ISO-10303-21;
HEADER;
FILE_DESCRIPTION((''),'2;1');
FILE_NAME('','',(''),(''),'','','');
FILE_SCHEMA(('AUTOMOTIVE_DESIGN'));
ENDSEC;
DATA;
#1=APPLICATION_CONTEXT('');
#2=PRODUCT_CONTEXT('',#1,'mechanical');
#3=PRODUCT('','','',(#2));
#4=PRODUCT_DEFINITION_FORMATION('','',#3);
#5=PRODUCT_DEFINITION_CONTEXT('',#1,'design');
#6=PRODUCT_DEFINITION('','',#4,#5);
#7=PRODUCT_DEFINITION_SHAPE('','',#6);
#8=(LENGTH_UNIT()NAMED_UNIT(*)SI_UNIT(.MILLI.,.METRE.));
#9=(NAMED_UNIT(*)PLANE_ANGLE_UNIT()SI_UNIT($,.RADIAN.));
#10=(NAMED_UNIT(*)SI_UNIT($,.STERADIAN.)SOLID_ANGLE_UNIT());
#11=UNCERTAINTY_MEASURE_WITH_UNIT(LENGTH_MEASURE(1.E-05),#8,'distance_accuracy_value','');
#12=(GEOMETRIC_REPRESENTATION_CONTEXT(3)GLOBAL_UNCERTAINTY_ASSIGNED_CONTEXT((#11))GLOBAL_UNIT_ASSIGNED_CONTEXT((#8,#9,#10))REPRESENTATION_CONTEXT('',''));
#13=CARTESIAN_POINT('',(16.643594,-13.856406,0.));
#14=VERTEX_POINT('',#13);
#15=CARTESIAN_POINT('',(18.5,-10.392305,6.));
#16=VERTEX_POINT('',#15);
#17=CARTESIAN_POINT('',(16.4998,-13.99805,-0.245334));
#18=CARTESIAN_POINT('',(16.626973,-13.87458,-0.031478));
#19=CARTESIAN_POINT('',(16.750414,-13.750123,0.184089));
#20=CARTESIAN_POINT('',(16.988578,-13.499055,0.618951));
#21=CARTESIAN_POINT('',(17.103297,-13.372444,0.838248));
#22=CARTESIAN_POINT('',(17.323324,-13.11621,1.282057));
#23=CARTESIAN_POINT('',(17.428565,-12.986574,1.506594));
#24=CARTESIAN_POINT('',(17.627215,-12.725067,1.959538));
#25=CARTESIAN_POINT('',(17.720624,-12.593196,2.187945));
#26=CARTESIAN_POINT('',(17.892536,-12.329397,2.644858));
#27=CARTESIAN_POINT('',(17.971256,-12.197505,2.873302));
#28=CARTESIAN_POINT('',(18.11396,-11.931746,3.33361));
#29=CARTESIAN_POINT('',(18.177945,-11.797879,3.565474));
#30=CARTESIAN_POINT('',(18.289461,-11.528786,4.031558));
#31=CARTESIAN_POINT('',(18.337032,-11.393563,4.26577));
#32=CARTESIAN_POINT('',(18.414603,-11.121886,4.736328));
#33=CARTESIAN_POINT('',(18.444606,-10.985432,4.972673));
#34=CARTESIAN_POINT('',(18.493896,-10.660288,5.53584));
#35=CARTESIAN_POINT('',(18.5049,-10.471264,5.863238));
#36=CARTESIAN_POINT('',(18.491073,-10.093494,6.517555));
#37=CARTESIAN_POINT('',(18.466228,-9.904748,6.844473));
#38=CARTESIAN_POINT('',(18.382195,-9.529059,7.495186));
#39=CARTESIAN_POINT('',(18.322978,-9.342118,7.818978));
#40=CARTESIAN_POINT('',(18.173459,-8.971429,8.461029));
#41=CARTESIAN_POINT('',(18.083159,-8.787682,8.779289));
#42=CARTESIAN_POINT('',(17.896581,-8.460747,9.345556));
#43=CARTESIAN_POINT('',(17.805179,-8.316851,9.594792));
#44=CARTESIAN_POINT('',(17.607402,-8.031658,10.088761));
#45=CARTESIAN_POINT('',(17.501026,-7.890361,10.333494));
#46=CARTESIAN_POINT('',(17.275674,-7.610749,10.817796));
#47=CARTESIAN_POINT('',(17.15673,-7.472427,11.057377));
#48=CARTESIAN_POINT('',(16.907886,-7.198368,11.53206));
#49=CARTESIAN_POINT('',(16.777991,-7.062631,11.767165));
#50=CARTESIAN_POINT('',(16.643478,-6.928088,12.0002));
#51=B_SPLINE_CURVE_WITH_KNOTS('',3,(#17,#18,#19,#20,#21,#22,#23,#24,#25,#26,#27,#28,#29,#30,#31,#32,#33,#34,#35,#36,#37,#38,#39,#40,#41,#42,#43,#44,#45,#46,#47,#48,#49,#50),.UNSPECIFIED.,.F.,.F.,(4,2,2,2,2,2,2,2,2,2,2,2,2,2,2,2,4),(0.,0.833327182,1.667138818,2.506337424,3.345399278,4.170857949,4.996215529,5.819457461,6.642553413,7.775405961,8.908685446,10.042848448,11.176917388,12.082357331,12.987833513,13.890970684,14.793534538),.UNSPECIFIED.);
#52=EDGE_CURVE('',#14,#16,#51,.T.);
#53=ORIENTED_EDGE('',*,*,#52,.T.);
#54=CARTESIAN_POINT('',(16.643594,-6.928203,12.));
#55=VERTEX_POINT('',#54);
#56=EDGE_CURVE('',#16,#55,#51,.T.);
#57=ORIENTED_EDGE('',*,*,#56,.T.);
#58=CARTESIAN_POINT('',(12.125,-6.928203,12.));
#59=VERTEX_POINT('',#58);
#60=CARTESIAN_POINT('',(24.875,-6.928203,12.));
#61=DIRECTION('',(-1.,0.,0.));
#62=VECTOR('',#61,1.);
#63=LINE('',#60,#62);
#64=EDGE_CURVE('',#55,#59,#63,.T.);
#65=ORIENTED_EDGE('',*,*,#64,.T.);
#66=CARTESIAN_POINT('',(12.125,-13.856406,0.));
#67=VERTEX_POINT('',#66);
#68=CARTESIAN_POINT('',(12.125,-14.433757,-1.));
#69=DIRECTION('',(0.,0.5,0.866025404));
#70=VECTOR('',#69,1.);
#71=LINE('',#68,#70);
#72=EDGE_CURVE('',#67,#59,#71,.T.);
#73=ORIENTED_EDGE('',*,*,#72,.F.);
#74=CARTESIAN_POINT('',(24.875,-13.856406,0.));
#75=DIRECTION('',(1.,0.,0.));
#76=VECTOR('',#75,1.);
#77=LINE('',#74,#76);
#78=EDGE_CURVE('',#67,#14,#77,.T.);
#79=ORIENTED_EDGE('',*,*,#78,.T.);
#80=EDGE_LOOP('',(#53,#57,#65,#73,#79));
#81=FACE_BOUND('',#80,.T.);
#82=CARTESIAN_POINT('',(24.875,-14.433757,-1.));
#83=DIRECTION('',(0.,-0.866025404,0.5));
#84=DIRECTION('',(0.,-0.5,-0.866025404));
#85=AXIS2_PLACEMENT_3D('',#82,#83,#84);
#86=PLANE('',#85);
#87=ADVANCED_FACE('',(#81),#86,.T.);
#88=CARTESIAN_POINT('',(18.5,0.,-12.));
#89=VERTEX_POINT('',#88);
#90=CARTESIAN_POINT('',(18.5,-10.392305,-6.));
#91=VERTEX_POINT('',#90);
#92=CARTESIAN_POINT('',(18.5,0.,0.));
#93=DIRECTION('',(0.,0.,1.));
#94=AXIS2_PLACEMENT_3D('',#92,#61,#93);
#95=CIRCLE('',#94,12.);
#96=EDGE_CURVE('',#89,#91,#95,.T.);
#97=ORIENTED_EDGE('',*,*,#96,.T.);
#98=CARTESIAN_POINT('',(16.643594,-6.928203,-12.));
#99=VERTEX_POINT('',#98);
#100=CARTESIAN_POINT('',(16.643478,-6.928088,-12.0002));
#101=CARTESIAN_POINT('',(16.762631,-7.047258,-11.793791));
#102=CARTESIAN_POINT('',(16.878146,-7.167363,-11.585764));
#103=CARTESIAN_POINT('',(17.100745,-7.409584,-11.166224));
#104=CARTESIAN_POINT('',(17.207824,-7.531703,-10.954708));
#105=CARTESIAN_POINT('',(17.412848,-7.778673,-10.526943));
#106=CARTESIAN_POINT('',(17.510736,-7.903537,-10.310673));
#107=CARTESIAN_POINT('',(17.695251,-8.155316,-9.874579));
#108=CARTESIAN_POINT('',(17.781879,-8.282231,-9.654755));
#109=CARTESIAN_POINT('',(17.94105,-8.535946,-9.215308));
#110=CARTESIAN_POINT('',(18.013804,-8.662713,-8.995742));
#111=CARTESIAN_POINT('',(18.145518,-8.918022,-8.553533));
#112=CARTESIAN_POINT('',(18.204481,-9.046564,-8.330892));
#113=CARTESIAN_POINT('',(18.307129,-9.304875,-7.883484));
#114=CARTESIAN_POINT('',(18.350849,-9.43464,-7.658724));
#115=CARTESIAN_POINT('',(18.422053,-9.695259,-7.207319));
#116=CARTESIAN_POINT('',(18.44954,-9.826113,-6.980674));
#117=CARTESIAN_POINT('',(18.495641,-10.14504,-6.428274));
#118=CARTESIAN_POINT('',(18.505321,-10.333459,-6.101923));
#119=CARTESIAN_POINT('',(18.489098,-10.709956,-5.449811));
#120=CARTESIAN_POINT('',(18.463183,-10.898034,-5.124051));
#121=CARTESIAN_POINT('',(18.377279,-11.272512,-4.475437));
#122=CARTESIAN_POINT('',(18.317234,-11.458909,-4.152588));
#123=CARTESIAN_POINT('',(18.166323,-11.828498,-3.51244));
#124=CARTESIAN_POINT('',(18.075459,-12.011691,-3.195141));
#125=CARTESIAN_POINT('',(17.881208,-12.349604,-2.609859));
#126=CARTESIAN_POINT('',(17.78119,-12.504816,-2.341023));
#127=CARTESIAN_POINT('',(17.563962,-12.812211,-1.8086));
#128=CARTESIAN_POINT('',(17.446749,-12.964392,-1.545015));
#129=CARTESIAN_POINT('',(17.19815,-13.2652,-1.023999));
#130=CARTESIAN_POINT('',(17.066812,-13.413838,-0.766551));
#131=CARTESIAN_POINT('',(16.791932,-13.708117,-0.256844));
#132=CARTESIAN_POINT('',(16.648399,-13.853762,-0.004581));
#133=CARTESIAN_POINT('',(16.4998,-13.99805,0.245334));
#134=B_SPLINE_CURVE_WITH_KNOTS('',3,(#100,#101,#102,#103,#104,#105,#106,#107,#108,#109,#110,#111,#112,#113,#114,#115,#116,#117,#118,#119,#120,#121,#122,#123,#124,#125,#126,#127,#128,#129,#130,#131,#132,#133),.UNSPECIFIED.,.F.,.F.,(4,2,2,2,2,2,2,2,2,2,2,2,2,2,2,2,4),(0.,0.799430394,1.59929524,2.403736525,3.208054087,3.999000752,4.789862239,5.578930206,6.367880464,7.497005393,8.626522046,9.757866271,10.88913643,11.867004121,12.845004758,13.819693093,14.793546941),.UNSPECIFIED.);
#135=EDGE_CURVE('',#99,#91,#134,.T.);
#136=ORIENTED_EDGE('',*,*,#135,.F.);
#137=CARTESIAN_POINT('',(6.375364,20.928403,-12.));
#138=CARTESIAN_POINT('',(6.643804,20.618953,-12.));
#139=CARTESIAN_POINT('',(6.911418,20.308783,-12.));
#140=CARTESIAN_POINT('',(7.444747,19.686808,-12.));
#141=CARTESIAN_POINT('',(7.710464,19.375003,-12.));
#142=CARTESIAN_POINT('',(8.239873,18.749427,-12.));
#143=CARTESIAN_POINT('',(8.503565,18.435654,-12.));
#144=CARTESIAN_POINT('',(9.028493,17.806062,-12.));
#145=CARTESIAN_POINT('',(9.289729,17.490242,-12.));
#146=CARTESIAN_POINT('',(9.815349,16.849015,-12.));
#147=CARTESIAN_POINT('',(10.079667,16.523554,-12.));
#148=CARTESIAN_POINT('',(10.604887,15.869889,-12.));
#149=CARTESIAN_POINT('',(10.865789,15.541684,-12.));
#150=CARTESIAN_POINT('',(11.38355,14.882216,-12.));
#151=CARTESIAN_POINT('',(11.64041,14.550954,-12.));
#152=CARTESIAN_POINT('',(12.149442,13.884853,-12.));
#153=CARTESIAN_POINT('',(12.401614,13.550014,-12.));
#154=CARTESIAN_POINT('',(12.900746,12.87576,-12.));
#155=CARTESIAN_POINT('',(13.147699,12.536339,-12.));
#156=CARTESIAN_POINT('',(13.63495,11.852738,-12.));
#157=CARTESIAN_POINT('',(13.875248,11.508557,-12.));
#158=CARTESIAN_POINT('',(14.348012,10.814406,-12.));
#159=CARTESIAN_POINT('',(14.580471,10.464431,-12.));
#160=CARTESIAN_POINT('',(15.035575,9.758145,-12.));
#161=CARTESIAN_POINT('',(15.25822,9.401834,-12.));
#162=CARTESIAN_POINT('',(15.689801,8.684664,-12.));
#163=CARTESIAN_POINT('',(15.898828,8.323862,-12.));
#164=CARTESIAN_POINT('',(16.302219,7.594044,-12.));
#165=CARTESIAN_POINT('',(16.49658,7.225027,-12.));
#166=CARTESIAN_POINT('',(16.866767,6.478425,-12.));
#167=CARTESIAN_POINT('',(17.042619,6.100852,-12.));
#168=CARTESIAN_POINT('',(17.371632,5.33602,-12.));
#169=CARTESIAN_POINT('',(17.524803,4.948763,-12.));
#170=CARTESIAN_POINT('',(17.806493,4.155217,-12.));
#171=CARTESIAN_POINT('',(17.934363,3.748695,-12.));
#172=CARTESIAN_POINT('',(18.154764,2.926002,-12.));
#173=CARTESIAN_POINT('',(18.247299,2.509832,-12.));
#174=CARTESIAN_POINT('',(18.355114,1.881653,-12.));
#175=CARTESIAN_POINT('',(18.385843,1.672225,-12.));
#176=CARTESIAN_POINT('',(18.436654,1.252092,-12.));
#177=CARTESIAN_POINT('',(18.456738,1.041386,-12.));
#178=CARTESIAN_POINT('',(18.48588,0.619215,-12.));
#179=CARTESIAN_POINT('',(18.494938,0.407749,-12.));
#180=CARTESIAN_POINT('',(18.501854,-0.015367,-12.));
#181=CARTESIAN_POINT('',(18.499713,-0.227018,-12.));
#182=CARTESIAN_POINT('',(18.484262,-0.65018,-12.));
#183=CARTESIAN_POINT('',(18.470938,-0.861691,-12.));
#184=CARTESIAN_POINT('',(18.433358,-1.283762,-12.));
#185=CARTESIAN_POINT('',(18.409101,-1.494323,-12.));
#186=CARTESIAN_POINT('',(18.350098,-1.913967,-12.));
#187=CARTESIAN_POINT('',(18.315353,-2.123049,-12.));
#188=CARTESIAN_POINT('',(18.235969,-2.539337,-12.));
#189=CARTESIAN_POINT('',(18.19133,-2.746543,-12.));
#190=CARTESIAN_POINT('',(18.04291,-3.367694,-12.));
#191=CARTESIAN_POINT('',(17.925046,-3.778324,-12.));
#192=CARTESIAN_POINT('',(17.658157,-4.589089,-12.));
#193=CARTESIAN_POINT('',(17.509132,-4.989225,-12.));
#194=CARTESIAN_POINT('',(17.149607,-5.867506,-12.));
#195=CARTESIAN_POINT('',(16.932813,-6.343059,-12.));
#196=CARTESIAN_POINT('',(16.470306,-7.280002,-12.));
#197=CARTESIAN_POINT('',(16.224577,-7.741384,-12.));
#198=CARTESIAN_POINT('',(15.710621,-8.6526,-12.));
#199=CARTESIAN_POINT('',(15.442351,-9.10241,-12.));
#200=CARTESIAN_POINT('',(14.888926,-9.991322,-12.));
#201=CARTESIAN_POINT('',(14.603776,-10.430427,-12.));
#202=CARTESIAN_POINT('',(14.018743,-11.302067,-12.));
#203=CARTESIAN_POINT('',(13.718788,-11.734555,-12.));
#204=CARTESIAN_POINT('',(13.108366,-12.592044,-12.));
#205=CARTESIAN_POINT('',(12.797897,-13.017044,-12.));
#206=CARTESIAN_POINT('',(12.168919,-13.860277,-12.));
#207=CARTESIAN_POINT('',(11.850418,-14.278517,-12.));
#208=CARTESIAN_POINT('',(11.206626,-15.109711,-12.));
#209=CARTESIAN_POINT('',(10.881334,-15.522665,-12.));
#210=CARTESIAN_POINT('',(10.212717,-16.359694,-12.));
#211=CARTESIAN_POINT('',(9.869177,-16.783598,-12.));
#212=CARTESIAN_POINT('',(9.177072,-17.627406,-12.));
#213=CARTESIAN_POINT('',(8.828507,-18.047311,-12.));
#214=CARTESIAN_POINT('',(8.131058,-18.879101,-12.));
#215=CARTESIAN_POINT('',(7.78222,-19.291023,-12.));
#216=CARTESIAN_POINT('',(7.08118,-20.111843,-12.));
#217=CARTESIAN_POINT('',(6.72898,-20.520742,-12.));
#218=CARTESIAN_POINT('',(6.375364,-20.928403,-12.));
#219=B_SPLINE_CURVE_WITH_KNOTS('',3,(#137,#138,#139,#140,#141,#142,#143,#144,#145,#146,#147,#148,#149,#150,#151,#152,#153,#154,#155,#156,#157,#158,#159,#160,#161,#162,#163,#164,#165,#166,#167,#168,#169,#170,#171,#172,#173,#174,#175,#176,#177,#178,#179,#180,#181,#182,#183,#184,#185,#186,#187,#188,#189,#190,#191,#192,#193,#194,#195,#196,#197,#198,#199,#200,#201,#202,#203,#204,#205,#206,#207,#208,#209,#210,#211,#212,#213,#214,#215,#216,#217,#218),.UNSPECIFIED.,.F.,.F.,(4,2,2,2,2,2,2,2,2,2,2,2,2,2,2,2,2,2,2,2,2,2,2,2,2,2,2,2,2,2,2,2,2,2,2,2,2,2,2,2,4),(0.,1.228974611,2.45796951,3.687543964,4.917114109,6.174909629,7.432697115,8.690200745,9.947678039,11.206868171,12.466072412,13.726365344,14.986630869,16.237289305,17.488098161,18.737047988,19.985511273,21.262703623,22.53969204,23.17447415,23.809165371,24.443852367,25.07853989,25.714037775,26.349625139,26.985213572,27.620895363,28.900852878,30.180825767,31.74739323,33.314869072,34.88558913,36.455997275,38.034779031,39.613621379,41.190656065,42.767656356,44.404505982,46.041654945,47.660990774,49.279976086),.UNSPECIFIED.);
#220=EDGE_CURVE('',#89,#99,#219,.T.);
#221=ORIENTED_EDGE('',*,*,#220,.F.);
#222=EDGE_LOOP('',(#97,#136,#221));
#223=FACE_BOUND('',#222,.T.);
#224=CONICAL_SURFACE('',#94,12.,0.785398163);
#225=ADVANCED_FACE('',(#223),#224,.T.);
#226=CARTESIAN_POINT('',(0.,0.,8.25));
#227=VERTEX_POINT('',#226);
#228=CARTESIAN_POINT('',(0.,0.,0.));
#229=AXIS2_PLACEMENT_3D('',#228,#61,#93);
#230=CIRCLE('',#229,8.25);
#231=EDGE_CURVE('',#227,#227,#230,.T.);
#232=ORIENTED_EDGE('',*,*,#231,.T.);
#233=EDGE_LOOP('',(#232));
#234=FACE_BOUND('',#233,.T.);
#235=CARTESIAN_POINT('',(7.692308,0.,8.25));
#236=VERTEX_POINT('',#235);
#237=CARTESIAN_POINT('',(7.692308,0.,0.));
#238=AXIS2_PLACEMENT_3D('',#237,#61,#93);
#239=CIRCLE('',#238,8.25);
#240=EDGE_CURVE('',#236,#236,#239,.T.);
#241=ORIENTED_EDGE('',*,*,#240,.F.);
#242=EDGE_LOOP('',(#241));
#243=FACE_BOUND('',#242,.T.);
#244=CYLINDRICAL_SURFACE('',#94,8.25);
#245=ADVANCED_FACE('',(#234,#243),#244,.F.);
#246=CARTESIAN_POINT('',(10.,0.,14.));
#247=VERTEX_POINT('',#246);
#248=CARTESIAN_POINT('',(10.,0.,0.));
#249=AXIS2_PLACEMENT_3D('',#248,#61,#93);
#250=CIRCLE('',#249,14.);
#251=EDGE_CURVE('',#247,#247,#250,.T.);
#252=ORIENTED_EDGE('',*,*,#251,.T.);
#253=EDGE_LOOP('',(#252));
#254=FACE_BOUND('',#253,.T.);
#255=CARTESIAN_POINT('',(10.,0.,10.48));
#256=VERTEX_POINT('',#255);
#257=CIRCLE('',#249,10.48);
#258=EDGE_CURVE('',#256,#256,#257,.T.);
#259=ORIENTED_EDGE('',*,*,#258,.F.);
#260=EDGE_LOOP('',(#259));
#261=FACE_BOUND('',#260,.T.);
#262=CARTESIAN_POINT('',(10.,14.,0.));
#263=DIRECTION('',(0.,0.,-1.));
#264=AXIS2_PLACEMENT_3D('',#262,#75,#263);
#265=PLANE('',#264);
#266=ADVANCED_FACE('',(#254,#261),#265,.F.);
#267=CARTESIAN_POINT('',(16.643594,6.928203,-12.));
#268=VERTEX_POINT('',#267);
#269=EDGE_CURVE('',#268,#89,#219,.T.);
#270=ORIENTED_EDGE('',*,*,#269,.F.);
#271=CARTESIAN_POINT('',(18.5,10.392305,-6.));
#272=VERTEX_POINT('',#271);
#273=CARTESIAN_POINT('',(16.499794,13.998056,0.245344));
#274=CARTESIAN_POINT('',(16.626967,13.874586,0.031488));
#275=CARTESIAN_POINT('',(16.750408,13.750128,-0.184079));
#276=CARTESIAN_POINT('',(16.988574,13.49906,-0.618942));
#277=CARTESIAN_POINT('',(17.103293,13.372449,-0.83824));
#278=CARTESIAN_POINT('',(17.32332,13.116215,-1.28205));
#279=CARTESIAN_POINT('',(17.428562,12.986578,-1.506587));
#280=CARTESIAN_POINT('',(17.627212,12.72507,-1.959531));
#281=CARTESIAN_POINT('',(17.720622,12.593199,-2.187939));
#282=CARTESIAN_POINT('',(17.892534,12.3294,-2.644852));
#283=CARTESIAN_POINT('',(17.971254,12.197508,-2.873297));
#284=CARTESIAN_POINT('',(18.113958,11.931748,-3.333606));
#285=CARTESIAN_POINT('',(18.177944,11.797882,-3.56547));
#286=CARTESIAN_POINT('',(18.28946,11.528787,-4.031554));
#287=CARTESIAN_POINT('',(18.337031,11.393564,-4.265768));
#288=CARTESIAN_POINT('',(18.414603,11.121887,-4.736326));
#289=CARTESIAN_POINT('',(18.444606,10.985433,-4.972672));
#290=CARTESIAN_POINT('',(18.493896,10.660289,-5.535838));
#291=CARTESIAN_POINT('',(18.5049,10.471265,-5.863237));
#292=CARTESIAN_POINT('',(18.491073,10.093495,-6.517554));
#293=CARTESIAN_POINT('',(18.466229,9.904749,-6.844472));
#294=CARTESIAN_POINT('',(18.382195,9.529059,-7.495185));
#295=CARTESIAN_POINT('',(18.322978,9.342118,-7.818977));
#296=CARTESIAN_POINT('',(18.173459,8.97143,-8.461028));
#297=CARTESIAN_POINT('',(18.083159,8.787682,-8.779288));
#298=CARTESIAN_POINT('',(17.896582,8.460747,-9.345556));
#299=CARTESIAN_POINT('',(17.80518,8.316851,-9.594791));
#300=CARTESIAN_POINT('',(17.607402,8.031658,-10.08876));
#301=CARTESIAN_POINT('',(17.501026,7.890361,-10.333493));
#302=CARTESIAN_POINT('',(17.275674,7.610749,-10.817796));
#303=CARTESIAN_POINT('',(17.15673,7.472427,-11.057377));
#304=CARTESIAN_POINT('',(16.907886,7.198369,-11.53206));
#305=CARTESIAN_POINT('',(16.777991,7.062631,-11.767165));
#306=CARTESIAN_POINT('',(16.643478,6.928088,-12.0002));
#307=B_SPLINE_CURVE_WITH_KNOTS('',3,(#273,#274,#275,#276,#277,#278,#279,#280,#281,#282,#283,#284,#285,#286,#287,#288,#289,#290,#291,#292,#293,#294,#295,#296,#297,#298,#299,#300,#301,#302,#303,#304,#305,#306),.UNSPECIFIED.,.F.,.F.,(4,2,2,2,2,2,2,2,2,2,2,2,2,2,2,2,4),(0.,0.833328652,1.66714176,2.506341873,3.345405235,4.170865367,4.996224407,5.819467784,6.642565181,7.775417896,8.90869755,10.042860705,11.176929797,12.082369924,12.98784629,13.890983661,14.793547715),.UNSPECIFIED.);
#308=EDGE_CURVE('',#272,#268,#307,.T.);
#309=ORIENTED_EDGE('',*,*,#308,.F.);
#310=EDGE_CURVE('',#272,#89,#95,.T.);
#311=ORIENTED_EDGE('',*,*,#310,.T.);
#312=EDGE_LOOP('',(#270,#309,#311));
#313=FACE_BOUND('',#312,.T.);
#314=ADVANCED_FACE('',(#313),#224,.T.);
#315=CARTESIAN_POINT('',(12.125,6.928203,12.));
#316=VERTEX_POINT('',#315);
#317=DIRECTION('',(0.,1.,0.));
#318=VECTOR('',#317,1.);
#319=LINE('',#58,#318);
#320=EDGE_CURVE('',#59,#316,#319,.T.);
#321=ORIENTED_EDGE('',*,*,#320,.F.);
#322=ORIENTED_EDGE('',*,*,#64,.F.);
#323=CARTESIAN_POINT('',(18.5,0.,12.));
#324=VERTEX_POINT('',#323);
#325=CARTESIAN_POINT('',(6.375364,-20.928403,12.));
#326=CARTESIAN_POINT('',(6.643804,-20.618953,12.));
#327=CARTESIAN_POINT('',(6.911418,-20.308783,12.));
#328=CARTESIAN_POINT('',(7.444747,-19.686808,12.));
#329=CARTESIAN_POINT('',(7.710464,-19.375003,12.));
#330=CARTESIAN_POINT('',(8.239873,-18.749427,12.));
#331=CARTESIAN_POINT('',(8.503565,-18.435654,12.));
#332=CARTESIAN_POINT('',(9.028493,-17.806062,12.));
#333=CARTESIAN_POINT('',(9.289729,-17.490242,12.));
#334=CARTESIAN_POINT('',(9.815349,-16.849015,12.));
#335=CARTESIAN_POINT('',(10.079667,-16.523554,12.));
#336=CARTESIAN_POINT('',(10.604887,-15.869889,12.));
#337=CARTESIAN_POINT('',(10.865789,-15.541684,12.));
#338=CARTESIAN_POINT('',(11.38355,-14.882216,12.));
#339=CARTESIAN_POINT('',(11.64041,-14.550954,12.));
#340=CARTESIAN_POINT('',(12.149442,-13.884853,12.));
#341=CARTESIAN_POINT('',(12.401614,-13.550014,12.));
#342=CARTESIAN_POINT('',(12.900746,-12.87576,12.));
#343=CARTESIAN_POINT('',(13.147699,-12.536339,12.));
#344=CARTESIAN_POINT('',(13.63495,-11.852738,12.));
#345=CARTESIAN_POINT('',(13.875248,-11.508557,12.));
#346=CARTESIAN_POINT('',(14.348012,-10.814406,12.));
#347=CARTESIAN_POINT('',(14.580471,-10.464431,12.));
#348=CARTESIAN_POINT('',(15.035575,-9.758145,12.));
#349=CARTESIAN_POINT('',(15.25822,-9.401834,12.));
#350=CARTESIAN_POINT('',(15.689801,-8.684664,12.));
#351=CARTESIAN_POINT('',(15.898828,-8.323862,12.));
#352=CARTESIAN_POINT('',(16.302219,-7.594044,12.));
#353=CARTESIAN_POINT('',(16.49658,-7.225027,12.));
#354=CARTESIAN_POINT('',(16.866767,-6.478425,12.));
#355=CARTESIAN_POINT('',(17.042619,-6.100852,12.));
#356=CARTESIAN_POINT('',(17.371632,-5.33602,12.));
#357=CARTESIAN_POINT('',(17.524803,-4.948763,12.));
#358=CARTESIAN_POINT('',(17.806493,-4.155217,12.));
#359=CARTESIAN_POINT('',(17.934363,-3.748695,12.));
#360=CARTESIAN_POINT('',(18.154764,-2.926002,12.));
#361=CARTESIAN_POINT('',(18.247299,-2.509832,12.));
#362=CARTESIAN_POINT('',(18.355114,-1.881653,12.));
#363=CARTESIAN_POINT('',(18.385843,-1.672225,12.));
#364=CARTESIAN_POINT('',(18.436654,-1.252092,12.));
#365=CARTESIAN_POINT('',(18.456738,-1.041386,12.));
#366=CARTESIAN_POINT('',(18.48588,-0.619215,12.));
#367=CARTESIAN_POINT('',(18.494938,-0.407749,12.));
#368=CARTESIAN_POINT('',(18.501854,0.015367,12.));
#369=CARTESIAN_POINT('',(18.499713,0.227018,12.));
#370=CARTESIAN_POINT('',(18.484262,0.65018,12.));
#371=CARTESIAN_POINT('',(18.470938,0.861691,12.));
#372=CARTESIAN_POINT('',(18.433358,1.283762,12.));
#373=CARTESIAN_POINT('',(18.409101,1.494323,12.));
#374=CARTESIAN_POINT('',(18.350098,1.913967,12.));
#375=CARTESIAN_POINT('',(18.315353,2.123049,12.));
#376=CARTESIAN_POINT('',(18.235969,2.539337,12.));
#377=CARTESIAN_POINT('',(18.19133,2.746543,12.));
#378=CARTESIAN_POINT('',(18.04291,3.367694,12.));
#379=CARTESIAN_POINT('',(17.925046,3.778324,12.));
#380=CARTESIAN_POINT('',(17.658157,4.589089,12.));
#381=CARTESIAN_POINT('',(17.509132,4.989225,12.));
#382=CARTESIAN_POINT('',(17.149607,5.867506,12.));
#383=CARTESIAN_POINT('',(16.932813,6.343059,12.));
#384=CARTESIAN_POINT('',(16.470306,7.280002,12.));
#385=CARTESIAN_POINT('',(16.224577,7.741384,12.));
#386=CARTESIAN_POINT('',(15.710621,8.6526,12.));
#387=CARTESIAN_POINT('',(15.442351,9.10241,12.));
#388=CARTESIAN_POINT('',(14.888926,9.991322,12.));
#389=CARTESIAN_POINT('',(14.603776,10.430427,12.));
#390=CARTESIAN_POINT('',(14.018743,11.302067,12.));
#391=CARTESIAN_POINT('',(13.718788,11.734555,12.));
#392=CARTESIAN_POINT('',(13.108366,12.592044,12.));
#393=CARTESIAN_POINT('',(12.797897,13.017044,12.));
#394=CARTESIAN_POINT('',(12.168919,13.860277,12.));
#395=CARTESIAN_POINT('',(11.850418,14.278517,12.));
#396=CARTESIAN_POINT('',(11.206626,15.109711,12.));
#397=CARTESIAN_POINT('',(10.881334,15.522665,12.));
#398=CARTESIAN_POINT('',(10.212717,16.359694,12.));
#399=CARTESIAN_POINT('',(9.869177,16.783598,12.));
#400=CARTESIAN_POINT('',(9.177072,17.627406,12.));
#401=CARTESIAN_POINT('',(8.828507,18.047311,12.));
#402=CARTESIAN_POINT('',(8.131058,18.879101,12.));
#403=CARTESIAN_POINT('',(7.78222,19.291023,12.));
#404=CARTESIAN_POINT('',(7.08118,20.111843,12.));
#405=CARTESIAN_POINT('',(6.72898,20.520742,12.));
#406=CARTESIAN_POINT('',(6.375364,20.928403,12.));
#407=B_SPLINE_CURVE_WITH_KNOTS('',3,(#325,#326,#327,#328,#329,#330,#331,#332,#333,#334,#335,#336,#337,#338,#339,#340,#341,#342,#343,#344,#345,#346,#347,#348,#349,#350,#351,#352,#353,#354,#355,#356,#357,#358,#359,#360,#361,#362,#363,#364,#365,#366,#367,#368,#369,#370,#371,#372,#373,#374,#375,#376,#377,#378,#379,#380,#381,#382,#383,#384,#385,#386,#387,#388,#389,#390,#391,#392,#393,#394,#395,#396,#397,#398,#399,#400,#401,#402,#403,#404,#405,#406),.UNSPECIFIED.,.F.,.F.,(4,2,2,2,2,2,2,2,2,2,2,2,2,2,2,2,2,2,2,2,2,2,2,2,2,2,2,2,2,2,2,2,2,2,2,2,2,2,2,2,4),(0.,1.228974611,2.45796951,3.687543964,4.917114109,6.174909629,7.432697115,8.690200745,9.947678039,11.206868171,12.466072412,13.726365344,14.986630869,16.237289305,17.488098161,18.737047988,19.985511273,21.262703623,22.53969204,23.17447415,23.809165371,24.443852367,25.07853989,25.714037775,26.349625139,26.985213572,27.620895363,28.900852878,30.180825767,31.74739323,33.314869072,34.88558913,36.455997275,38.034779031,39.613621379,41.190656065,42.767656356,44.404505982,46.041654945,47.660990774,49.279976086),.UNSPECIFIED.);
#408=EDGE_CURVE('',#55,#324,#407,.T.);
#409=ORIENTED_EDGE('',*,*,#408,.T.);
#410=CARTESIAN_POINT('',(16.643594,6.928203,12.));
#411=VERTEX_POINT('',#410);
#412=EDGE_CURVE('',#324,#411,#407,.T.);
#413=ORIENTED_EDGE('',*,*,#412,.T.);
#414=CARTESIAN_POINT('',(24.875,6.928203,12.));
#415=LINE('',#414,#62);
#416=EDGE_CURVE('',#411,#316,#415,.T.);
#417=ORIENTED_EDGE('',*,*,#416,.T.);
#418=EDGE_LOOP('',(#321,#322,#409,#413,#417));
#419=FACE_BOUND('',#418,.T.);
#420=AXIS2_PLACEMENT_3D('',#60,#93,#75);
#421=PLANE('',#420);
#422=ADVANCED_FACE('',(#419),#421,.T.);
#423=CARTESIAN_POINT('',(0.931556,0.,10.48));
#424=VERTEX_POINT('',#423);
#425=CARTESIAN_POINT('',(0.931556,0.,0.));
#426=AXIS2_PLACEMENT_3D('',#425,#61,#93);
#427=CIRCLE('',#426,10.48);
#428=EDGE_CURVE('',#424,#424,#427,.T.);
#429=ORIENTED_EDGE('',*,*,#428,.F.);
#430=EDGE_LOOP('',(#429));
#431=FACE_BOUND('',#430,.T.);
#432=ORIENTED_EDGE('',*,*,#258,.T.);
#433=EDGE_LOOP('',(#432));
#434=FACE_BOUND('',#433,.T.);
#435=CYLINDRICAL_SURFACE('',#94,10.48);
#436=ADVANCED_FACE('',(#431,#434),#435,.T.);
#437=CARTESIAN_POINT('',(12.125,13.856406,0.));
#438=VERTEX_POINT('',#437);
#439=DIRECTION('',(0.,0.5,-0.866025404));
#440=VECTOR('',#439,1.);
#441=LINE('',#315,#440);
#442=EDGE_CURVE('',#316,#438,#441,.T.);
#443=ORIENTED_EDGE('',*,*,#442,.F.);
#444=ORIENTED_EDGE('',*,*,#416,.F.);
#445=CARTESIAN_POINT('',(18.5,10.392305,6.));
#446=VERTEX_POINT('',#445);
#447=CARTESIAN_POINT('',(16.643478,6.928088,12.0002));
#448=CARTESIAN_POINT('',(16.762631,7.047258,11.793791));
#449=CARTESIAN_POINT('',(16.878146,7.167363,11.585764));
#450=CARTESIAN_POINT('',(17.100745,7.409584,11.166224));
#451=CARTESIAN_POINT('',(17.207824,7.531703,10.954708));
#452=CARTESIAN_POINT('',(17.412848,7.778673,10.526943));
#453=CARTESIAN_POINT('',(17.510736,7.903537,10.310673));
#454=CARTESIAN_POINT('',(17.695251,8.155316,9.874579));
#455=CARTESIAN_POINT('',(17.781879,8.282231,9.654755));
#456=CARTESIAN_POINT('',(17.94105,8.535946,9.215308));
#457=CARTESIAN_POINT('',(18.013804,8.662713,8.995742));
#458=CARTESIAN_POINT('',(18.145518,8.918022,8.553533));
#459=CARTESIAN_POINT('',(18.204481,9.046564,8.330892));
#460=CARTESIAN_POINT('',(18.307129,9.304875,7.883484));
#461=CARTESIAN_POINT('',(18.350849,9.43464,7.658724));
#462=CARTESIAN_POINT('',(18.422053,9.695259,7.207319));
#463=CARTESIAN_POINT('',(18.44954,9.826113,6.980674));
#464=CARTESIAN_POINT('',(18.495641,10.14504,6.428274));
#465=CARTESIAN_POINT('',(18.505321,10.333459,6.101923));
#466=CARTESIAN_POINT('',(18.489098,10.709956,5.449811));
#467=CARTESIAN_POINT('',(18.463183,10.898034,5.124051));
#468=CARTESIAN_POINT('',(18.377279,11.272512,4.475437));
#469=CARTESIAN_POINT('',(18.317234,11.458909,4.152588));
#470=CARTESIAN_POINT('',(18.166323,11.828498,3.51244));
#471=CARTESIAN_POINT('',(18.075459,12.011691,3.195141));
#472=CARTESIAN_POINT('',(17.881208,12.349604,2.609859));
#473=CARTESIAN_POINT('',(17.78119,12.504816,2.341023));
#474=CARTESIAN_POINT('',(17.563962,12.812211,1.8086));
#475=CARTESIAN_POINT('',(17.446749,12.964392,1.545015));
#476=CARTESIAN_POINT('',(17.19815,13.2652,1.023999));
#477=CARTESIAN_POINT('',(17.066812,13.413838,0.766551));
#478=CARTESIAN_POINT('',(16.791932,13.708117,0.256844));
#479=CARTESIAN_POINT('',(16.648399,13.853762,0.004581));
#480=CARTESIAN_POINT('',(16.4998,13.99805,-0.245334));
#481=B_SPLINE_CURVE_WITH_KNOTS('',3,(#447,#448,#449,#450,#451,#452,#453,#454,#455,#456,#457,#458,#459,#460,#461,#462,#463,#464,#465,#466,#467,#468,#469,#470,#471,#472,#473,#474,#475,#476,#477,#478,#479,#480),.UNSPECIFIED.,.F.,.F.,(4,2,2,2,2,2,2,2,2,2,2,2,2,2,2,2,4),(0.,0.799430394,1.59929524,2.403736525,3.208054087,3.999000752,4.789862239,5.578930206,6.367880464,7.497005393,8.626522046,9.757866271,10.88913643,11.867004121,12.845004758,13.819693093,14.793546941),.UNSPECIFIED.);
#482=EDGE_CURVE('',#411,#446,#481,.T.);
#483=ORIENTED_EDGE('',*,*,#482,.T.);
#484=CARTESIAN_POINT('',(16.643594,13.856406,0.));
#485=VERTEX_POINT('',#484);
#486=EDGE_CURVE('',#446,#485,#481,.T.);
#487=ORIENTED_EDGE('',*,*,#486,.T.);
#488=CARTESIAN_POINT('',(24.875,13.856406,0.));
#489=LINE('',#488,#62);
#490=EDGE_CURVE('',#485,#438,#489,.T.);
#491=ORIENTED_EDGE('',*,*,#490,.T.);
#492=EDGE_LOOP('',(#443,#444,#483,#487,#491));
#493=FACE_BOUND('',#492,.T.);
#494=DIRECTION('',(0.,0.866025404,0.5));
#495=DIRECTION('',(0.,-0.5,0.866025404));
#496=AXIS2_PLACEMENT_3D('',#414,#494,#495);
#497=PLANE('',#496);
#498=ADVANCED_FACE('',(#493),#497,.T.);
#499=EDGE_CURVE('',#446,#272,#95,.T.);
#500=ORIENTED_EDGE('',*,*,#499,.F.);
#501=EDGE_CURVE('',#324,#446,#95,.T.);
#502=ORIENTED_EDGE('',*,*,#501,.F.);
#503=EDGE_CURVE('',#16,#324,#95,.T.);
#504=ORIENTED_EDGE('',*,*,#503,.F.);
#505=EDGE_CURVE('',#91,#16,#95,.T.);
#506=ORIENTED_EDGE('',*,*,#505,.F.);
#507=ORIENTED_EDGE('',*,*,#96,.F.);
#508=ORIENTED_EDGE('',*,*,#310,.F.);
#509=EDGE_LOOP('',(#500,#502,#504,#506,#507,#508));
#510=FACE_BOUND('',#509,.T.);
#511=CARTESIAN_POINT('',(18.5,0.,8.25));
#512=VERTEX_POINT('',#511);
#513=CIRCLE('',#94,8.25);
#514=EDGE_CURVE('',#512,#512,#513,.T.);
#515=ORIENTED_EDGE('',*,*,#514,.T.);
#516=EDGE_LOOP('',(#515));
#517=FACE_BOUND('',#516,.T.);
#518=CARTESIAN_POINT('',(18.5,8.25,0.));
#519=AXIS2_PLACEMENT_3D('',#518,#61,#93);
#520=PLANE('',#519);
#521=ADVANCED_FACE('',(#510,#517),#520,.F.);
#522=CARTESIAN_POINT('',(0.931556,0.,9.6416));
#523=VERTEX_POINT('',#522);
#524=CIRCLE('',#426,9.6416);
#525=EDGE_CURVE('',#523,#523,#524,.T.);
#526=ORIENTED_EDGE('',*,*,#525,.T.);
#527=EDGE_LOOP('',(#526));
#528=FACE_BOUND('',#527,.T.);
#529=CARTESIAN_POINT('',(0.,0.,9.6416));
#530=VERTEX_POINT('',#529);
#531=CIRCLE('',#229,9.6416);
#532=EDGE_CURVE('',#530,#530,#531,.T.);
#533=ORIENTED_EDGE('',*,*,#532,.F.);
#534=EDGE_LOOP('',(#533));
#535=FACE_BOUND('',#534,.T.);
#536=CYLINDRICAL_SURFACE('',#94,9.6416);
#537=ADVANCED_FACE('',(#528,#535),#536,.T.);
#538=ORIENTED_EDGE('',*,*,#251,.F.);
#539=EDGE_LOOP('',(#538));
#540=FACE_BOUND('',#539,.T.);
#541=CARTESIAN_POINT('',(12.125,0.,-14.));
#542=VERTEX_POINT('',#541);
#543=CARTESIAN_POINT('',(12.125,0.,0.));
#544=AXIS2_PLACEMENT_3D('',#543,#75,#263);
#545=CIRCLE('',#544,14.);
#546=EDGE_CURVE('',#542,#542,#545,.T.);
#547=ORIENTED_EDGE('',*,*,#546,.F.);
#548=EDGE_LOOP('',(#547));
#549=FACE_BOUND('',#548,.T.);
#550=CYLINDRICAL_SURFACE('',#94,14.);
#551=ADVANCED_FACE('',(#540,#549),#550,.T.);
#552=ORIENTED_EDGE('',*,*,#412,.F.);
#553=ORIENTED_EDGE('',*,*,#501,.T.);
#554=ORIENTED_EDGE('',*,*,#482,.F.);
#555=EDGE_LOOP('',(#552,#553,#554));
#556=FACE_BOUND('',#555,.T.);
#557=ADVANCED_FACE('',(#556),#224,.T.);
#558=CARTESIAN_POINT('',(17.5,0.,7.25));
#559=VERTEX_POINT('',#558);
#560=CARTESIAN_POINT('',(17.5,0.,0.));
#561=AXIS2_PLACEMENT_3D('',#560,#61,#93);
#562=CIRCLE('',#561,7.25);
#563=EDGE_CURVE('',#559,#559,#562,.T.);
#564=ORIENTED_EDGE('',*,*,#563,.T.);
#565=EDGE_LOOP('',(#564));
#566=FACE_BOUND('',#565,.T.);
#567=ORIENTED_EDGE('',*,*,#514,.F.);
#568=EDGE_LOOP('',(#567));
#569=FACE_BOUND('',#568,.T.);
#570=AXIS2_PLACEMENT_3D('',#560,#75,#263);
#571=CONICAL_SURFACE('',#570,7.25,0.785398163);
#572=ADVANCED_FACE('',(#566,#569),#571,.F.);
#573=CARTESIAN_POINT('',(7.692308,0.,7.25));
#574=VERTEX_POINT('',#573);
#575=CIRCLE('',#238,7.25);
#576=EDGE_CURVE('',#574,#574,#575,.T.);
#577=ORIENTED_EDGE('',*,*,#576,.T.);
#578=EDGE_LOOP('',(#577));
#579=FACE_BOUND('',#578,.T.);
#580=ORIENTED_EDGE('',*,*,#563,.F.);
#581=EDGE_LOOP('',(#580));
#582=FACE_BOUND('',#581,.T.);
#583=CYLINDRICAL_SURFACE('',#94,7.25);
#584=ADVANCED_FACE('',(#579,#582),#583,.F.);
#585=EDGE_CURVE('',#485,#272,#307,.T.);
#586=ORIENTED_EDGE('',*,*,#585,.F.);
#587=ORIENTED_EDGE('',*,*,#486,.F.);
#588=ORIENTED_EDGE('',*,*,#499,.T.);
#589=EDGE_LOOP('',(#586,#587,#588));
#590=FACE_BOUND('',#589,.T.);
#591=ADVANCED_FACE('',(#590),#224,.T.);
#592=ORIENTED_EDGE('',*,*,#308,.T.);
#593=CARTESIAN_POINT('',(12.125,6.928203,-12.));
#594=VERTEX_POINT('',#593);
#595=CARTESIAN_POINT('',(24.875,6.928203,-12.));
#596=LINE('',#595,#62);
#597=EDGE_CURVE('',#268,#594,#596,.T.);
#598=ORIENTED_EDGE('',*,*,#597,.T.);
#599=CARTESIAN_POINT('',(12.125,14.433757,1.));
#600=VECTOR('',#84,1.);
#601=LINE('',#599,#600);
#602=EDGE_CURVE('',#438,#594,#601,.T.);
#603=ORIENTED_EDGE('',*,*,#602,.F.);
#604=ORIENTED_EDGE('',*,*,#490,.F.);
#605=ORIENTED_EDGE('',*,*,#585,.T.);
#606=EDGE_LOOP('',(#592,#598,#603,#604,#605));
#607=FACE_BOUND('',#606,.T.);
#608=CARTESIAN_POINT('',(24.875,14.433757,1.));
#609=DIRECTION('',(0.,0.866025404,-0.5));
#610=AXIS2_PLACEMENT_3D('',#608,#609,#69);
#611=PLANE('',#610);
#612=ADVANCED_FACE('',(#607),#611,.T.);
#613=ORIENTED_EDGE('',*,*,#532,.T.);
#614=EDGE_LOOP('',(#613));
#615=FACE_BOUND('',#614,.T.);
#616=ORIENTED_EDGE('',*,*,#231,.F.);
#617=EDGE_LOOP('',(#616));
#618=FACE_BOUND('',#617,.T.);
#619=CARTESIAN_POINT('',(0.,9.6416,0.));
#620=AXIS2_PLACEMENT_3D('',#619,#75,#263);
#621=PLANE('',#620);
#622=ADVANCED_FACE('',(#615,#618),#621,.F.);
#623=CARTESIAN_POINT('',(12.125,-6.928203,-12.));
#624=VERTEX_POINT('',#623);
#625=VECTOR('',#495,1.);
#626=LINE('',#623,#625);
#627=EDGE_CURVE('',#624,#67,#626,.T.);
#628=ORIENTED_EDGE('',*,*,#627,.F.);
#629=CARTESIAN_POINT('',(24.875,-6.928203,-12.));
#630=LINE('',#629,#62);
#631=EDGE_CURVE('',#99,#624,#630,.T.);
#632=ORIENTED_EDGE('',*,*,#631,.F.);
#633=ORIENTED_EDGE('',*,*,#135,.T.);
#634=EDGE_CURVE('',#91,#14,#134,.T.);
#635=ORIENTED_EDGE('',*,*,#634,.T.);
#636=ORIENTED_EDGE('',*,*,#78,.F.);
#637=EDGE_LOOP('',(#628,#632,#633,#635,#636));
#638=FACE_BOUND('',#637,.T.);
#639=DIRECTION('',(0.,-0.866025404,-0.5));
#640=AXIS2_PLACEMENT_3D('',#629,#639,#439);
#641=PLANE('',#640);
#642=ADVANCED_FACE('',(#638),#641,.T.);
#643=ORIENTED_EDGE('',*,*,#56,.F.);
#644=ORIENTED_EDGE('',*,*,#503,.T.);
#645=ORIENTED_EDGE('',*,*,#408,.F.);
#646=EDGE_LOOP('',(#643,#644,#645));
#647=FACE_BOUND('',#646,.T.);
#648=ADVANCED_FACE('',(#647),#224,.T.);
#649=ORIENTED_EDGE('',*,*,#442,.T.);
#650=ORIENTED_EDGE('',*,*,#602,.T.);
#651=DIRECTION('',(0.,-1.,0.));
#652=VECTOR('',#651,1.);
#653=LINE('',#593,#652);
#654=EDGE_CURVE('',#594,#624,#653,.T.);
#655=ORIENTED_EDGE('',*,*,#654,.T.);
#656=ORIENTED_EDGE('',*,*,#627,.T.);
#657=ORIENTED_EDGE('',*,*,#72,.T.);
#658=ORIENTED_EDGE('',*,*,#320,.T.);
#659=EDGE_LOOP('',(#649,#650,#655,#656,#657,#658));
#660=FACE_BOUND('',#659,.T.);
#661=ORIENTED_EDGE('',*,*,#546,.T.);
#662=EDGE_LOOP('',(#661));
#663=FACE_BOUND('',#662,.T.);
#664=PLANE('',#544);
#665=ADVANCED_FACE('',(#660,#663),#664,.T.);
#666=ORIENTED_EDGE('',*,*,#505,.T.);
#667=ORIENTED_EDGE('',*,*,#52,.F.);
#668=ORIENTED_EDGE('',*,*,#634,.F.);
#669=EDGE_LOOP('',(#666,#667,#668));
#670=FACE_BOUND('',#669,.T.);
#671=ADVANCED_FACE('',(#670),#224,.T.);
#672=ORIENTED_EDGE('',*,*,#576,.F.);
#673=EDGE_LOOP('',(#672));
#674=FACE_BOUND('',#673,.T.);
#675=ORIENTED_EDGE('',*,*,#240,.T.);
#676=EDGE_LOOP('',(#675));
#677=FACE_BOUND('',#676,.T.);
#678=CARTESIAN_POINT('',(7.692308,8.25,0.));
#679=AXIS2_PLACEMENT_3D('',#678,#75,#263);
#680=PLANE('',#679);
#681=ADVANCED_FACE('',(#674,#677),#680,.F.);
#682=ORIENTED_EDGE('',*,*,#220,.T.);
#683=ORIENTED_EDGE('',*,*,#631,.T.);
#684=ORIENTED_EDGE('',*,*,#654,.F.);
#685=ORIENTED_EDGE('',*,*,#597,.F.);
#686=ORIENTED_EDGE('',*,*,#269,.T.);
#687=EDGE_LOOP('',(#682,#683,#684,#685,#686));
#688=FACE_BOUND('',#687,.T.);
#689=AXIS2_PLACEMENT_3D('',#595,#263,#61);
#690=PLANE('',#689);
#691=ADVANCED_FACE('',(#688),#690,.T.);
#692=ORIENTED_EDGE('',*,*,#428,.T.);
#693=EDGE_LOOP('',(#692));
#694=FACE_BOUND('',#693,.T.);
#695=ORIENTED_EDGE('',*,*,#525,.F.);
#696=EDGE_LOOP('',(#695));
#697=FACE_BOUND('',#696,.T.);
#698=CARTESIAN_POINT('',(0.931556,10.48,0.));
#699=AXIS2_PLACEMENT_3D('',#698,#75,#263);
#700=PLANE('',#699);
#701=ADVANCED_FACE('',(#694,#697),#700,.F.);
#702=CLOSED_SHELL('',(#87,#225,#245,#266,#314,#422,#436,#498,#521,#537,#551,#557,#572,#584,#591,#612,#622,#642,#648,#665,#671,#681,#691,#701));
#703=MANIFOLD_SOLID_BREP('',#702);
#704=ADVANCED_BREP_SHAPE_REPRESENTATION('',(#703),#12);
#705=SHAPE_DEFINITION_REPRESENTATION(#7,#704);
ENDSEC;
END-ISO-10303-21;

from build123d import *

# Parameters (mm, degrees)
TAGLIO_ESTRUSIONE1_DEPTH      = 6.375
TAGLIO_ESTRUSIONE1_DEPTH_BACK = 6.375
TAGLIO_ESTRUSIONE2_DEPTH      = 6.375
TAGLIO_ESTRUSIONE2_DEPTH_BACK = 6.375


with BuildPart() as part:
    # Schizzo1 → Rivoluzione1 (revolve)
    with BuildSketch(Plane.XY):
        Polygon((0, 8.25), (7.692307692, 8.25), (7.692307692, 7.25), (17.5, 7.25), (18.5, 8.25), (18.5, 12), (16.5, 14), (10, 14), (10, 10.48), (0.931555556, 10.48), (0.931555556, 9.6416), (0, 9.6416), align=None)
    revolve(axis=Axis((18.5, 0, 0), (-1, 0, 0)))

    # Schizzo2 → Taglio-Estrusione1 (cut, two sides: drawn at the far end of the back side and taken through both)
    with BuildSketch(Plane(origin=(18.5, 0, 0), x_dir=(0, 0, -1), z_dir=(1, 0, 0)).offset(-TAGLIO_ESTRUSIONE1_DEPTH_BACK)):
        Polygon((-18, -10.392304845), (1, -21.36195996), (1, -14.43375673), (-12, -6.92820323), (-12, 6.92820323), (1, 14.43375673), (1, 21.36195996), (-18, 10.392304845), align=None)
    extrude(amount=TAGLIO_ESTRUSIONE1_DEPTH + TAGLIO_ESTRUSIONE1_DEPTH_BACK, mode=Mode.SUBTRACT)

    # Schizzo3 → Taglio-Estrusione2 (cut, two sides: drawn at the far end of the back side and taken through both)
    with BuildSketch(Plane(origin=(18.5, 0, 0), x_dir=(0, 0, -1), z_dir=(1, 0, 0)).offset(-TAGLIO_ESTRUSIONE2_DEPTH_BACK)):
        Polygon((-1, -14.43375673), (-1, -21.36195996), (18, -10.392304845), (18, 10.392304845), (-1, 21.36195996), (-1, 14.43375673), (12, 6.92820323), (12, -6.92820323), align=None)
    extrude(amount=TAGLIO_ESTRUSIONE2_DEPTH + TAGLIO_ESTRUSIONE2_DEPTH_BACK, mode=Mode.SUBTRACT)


solid = part.part
